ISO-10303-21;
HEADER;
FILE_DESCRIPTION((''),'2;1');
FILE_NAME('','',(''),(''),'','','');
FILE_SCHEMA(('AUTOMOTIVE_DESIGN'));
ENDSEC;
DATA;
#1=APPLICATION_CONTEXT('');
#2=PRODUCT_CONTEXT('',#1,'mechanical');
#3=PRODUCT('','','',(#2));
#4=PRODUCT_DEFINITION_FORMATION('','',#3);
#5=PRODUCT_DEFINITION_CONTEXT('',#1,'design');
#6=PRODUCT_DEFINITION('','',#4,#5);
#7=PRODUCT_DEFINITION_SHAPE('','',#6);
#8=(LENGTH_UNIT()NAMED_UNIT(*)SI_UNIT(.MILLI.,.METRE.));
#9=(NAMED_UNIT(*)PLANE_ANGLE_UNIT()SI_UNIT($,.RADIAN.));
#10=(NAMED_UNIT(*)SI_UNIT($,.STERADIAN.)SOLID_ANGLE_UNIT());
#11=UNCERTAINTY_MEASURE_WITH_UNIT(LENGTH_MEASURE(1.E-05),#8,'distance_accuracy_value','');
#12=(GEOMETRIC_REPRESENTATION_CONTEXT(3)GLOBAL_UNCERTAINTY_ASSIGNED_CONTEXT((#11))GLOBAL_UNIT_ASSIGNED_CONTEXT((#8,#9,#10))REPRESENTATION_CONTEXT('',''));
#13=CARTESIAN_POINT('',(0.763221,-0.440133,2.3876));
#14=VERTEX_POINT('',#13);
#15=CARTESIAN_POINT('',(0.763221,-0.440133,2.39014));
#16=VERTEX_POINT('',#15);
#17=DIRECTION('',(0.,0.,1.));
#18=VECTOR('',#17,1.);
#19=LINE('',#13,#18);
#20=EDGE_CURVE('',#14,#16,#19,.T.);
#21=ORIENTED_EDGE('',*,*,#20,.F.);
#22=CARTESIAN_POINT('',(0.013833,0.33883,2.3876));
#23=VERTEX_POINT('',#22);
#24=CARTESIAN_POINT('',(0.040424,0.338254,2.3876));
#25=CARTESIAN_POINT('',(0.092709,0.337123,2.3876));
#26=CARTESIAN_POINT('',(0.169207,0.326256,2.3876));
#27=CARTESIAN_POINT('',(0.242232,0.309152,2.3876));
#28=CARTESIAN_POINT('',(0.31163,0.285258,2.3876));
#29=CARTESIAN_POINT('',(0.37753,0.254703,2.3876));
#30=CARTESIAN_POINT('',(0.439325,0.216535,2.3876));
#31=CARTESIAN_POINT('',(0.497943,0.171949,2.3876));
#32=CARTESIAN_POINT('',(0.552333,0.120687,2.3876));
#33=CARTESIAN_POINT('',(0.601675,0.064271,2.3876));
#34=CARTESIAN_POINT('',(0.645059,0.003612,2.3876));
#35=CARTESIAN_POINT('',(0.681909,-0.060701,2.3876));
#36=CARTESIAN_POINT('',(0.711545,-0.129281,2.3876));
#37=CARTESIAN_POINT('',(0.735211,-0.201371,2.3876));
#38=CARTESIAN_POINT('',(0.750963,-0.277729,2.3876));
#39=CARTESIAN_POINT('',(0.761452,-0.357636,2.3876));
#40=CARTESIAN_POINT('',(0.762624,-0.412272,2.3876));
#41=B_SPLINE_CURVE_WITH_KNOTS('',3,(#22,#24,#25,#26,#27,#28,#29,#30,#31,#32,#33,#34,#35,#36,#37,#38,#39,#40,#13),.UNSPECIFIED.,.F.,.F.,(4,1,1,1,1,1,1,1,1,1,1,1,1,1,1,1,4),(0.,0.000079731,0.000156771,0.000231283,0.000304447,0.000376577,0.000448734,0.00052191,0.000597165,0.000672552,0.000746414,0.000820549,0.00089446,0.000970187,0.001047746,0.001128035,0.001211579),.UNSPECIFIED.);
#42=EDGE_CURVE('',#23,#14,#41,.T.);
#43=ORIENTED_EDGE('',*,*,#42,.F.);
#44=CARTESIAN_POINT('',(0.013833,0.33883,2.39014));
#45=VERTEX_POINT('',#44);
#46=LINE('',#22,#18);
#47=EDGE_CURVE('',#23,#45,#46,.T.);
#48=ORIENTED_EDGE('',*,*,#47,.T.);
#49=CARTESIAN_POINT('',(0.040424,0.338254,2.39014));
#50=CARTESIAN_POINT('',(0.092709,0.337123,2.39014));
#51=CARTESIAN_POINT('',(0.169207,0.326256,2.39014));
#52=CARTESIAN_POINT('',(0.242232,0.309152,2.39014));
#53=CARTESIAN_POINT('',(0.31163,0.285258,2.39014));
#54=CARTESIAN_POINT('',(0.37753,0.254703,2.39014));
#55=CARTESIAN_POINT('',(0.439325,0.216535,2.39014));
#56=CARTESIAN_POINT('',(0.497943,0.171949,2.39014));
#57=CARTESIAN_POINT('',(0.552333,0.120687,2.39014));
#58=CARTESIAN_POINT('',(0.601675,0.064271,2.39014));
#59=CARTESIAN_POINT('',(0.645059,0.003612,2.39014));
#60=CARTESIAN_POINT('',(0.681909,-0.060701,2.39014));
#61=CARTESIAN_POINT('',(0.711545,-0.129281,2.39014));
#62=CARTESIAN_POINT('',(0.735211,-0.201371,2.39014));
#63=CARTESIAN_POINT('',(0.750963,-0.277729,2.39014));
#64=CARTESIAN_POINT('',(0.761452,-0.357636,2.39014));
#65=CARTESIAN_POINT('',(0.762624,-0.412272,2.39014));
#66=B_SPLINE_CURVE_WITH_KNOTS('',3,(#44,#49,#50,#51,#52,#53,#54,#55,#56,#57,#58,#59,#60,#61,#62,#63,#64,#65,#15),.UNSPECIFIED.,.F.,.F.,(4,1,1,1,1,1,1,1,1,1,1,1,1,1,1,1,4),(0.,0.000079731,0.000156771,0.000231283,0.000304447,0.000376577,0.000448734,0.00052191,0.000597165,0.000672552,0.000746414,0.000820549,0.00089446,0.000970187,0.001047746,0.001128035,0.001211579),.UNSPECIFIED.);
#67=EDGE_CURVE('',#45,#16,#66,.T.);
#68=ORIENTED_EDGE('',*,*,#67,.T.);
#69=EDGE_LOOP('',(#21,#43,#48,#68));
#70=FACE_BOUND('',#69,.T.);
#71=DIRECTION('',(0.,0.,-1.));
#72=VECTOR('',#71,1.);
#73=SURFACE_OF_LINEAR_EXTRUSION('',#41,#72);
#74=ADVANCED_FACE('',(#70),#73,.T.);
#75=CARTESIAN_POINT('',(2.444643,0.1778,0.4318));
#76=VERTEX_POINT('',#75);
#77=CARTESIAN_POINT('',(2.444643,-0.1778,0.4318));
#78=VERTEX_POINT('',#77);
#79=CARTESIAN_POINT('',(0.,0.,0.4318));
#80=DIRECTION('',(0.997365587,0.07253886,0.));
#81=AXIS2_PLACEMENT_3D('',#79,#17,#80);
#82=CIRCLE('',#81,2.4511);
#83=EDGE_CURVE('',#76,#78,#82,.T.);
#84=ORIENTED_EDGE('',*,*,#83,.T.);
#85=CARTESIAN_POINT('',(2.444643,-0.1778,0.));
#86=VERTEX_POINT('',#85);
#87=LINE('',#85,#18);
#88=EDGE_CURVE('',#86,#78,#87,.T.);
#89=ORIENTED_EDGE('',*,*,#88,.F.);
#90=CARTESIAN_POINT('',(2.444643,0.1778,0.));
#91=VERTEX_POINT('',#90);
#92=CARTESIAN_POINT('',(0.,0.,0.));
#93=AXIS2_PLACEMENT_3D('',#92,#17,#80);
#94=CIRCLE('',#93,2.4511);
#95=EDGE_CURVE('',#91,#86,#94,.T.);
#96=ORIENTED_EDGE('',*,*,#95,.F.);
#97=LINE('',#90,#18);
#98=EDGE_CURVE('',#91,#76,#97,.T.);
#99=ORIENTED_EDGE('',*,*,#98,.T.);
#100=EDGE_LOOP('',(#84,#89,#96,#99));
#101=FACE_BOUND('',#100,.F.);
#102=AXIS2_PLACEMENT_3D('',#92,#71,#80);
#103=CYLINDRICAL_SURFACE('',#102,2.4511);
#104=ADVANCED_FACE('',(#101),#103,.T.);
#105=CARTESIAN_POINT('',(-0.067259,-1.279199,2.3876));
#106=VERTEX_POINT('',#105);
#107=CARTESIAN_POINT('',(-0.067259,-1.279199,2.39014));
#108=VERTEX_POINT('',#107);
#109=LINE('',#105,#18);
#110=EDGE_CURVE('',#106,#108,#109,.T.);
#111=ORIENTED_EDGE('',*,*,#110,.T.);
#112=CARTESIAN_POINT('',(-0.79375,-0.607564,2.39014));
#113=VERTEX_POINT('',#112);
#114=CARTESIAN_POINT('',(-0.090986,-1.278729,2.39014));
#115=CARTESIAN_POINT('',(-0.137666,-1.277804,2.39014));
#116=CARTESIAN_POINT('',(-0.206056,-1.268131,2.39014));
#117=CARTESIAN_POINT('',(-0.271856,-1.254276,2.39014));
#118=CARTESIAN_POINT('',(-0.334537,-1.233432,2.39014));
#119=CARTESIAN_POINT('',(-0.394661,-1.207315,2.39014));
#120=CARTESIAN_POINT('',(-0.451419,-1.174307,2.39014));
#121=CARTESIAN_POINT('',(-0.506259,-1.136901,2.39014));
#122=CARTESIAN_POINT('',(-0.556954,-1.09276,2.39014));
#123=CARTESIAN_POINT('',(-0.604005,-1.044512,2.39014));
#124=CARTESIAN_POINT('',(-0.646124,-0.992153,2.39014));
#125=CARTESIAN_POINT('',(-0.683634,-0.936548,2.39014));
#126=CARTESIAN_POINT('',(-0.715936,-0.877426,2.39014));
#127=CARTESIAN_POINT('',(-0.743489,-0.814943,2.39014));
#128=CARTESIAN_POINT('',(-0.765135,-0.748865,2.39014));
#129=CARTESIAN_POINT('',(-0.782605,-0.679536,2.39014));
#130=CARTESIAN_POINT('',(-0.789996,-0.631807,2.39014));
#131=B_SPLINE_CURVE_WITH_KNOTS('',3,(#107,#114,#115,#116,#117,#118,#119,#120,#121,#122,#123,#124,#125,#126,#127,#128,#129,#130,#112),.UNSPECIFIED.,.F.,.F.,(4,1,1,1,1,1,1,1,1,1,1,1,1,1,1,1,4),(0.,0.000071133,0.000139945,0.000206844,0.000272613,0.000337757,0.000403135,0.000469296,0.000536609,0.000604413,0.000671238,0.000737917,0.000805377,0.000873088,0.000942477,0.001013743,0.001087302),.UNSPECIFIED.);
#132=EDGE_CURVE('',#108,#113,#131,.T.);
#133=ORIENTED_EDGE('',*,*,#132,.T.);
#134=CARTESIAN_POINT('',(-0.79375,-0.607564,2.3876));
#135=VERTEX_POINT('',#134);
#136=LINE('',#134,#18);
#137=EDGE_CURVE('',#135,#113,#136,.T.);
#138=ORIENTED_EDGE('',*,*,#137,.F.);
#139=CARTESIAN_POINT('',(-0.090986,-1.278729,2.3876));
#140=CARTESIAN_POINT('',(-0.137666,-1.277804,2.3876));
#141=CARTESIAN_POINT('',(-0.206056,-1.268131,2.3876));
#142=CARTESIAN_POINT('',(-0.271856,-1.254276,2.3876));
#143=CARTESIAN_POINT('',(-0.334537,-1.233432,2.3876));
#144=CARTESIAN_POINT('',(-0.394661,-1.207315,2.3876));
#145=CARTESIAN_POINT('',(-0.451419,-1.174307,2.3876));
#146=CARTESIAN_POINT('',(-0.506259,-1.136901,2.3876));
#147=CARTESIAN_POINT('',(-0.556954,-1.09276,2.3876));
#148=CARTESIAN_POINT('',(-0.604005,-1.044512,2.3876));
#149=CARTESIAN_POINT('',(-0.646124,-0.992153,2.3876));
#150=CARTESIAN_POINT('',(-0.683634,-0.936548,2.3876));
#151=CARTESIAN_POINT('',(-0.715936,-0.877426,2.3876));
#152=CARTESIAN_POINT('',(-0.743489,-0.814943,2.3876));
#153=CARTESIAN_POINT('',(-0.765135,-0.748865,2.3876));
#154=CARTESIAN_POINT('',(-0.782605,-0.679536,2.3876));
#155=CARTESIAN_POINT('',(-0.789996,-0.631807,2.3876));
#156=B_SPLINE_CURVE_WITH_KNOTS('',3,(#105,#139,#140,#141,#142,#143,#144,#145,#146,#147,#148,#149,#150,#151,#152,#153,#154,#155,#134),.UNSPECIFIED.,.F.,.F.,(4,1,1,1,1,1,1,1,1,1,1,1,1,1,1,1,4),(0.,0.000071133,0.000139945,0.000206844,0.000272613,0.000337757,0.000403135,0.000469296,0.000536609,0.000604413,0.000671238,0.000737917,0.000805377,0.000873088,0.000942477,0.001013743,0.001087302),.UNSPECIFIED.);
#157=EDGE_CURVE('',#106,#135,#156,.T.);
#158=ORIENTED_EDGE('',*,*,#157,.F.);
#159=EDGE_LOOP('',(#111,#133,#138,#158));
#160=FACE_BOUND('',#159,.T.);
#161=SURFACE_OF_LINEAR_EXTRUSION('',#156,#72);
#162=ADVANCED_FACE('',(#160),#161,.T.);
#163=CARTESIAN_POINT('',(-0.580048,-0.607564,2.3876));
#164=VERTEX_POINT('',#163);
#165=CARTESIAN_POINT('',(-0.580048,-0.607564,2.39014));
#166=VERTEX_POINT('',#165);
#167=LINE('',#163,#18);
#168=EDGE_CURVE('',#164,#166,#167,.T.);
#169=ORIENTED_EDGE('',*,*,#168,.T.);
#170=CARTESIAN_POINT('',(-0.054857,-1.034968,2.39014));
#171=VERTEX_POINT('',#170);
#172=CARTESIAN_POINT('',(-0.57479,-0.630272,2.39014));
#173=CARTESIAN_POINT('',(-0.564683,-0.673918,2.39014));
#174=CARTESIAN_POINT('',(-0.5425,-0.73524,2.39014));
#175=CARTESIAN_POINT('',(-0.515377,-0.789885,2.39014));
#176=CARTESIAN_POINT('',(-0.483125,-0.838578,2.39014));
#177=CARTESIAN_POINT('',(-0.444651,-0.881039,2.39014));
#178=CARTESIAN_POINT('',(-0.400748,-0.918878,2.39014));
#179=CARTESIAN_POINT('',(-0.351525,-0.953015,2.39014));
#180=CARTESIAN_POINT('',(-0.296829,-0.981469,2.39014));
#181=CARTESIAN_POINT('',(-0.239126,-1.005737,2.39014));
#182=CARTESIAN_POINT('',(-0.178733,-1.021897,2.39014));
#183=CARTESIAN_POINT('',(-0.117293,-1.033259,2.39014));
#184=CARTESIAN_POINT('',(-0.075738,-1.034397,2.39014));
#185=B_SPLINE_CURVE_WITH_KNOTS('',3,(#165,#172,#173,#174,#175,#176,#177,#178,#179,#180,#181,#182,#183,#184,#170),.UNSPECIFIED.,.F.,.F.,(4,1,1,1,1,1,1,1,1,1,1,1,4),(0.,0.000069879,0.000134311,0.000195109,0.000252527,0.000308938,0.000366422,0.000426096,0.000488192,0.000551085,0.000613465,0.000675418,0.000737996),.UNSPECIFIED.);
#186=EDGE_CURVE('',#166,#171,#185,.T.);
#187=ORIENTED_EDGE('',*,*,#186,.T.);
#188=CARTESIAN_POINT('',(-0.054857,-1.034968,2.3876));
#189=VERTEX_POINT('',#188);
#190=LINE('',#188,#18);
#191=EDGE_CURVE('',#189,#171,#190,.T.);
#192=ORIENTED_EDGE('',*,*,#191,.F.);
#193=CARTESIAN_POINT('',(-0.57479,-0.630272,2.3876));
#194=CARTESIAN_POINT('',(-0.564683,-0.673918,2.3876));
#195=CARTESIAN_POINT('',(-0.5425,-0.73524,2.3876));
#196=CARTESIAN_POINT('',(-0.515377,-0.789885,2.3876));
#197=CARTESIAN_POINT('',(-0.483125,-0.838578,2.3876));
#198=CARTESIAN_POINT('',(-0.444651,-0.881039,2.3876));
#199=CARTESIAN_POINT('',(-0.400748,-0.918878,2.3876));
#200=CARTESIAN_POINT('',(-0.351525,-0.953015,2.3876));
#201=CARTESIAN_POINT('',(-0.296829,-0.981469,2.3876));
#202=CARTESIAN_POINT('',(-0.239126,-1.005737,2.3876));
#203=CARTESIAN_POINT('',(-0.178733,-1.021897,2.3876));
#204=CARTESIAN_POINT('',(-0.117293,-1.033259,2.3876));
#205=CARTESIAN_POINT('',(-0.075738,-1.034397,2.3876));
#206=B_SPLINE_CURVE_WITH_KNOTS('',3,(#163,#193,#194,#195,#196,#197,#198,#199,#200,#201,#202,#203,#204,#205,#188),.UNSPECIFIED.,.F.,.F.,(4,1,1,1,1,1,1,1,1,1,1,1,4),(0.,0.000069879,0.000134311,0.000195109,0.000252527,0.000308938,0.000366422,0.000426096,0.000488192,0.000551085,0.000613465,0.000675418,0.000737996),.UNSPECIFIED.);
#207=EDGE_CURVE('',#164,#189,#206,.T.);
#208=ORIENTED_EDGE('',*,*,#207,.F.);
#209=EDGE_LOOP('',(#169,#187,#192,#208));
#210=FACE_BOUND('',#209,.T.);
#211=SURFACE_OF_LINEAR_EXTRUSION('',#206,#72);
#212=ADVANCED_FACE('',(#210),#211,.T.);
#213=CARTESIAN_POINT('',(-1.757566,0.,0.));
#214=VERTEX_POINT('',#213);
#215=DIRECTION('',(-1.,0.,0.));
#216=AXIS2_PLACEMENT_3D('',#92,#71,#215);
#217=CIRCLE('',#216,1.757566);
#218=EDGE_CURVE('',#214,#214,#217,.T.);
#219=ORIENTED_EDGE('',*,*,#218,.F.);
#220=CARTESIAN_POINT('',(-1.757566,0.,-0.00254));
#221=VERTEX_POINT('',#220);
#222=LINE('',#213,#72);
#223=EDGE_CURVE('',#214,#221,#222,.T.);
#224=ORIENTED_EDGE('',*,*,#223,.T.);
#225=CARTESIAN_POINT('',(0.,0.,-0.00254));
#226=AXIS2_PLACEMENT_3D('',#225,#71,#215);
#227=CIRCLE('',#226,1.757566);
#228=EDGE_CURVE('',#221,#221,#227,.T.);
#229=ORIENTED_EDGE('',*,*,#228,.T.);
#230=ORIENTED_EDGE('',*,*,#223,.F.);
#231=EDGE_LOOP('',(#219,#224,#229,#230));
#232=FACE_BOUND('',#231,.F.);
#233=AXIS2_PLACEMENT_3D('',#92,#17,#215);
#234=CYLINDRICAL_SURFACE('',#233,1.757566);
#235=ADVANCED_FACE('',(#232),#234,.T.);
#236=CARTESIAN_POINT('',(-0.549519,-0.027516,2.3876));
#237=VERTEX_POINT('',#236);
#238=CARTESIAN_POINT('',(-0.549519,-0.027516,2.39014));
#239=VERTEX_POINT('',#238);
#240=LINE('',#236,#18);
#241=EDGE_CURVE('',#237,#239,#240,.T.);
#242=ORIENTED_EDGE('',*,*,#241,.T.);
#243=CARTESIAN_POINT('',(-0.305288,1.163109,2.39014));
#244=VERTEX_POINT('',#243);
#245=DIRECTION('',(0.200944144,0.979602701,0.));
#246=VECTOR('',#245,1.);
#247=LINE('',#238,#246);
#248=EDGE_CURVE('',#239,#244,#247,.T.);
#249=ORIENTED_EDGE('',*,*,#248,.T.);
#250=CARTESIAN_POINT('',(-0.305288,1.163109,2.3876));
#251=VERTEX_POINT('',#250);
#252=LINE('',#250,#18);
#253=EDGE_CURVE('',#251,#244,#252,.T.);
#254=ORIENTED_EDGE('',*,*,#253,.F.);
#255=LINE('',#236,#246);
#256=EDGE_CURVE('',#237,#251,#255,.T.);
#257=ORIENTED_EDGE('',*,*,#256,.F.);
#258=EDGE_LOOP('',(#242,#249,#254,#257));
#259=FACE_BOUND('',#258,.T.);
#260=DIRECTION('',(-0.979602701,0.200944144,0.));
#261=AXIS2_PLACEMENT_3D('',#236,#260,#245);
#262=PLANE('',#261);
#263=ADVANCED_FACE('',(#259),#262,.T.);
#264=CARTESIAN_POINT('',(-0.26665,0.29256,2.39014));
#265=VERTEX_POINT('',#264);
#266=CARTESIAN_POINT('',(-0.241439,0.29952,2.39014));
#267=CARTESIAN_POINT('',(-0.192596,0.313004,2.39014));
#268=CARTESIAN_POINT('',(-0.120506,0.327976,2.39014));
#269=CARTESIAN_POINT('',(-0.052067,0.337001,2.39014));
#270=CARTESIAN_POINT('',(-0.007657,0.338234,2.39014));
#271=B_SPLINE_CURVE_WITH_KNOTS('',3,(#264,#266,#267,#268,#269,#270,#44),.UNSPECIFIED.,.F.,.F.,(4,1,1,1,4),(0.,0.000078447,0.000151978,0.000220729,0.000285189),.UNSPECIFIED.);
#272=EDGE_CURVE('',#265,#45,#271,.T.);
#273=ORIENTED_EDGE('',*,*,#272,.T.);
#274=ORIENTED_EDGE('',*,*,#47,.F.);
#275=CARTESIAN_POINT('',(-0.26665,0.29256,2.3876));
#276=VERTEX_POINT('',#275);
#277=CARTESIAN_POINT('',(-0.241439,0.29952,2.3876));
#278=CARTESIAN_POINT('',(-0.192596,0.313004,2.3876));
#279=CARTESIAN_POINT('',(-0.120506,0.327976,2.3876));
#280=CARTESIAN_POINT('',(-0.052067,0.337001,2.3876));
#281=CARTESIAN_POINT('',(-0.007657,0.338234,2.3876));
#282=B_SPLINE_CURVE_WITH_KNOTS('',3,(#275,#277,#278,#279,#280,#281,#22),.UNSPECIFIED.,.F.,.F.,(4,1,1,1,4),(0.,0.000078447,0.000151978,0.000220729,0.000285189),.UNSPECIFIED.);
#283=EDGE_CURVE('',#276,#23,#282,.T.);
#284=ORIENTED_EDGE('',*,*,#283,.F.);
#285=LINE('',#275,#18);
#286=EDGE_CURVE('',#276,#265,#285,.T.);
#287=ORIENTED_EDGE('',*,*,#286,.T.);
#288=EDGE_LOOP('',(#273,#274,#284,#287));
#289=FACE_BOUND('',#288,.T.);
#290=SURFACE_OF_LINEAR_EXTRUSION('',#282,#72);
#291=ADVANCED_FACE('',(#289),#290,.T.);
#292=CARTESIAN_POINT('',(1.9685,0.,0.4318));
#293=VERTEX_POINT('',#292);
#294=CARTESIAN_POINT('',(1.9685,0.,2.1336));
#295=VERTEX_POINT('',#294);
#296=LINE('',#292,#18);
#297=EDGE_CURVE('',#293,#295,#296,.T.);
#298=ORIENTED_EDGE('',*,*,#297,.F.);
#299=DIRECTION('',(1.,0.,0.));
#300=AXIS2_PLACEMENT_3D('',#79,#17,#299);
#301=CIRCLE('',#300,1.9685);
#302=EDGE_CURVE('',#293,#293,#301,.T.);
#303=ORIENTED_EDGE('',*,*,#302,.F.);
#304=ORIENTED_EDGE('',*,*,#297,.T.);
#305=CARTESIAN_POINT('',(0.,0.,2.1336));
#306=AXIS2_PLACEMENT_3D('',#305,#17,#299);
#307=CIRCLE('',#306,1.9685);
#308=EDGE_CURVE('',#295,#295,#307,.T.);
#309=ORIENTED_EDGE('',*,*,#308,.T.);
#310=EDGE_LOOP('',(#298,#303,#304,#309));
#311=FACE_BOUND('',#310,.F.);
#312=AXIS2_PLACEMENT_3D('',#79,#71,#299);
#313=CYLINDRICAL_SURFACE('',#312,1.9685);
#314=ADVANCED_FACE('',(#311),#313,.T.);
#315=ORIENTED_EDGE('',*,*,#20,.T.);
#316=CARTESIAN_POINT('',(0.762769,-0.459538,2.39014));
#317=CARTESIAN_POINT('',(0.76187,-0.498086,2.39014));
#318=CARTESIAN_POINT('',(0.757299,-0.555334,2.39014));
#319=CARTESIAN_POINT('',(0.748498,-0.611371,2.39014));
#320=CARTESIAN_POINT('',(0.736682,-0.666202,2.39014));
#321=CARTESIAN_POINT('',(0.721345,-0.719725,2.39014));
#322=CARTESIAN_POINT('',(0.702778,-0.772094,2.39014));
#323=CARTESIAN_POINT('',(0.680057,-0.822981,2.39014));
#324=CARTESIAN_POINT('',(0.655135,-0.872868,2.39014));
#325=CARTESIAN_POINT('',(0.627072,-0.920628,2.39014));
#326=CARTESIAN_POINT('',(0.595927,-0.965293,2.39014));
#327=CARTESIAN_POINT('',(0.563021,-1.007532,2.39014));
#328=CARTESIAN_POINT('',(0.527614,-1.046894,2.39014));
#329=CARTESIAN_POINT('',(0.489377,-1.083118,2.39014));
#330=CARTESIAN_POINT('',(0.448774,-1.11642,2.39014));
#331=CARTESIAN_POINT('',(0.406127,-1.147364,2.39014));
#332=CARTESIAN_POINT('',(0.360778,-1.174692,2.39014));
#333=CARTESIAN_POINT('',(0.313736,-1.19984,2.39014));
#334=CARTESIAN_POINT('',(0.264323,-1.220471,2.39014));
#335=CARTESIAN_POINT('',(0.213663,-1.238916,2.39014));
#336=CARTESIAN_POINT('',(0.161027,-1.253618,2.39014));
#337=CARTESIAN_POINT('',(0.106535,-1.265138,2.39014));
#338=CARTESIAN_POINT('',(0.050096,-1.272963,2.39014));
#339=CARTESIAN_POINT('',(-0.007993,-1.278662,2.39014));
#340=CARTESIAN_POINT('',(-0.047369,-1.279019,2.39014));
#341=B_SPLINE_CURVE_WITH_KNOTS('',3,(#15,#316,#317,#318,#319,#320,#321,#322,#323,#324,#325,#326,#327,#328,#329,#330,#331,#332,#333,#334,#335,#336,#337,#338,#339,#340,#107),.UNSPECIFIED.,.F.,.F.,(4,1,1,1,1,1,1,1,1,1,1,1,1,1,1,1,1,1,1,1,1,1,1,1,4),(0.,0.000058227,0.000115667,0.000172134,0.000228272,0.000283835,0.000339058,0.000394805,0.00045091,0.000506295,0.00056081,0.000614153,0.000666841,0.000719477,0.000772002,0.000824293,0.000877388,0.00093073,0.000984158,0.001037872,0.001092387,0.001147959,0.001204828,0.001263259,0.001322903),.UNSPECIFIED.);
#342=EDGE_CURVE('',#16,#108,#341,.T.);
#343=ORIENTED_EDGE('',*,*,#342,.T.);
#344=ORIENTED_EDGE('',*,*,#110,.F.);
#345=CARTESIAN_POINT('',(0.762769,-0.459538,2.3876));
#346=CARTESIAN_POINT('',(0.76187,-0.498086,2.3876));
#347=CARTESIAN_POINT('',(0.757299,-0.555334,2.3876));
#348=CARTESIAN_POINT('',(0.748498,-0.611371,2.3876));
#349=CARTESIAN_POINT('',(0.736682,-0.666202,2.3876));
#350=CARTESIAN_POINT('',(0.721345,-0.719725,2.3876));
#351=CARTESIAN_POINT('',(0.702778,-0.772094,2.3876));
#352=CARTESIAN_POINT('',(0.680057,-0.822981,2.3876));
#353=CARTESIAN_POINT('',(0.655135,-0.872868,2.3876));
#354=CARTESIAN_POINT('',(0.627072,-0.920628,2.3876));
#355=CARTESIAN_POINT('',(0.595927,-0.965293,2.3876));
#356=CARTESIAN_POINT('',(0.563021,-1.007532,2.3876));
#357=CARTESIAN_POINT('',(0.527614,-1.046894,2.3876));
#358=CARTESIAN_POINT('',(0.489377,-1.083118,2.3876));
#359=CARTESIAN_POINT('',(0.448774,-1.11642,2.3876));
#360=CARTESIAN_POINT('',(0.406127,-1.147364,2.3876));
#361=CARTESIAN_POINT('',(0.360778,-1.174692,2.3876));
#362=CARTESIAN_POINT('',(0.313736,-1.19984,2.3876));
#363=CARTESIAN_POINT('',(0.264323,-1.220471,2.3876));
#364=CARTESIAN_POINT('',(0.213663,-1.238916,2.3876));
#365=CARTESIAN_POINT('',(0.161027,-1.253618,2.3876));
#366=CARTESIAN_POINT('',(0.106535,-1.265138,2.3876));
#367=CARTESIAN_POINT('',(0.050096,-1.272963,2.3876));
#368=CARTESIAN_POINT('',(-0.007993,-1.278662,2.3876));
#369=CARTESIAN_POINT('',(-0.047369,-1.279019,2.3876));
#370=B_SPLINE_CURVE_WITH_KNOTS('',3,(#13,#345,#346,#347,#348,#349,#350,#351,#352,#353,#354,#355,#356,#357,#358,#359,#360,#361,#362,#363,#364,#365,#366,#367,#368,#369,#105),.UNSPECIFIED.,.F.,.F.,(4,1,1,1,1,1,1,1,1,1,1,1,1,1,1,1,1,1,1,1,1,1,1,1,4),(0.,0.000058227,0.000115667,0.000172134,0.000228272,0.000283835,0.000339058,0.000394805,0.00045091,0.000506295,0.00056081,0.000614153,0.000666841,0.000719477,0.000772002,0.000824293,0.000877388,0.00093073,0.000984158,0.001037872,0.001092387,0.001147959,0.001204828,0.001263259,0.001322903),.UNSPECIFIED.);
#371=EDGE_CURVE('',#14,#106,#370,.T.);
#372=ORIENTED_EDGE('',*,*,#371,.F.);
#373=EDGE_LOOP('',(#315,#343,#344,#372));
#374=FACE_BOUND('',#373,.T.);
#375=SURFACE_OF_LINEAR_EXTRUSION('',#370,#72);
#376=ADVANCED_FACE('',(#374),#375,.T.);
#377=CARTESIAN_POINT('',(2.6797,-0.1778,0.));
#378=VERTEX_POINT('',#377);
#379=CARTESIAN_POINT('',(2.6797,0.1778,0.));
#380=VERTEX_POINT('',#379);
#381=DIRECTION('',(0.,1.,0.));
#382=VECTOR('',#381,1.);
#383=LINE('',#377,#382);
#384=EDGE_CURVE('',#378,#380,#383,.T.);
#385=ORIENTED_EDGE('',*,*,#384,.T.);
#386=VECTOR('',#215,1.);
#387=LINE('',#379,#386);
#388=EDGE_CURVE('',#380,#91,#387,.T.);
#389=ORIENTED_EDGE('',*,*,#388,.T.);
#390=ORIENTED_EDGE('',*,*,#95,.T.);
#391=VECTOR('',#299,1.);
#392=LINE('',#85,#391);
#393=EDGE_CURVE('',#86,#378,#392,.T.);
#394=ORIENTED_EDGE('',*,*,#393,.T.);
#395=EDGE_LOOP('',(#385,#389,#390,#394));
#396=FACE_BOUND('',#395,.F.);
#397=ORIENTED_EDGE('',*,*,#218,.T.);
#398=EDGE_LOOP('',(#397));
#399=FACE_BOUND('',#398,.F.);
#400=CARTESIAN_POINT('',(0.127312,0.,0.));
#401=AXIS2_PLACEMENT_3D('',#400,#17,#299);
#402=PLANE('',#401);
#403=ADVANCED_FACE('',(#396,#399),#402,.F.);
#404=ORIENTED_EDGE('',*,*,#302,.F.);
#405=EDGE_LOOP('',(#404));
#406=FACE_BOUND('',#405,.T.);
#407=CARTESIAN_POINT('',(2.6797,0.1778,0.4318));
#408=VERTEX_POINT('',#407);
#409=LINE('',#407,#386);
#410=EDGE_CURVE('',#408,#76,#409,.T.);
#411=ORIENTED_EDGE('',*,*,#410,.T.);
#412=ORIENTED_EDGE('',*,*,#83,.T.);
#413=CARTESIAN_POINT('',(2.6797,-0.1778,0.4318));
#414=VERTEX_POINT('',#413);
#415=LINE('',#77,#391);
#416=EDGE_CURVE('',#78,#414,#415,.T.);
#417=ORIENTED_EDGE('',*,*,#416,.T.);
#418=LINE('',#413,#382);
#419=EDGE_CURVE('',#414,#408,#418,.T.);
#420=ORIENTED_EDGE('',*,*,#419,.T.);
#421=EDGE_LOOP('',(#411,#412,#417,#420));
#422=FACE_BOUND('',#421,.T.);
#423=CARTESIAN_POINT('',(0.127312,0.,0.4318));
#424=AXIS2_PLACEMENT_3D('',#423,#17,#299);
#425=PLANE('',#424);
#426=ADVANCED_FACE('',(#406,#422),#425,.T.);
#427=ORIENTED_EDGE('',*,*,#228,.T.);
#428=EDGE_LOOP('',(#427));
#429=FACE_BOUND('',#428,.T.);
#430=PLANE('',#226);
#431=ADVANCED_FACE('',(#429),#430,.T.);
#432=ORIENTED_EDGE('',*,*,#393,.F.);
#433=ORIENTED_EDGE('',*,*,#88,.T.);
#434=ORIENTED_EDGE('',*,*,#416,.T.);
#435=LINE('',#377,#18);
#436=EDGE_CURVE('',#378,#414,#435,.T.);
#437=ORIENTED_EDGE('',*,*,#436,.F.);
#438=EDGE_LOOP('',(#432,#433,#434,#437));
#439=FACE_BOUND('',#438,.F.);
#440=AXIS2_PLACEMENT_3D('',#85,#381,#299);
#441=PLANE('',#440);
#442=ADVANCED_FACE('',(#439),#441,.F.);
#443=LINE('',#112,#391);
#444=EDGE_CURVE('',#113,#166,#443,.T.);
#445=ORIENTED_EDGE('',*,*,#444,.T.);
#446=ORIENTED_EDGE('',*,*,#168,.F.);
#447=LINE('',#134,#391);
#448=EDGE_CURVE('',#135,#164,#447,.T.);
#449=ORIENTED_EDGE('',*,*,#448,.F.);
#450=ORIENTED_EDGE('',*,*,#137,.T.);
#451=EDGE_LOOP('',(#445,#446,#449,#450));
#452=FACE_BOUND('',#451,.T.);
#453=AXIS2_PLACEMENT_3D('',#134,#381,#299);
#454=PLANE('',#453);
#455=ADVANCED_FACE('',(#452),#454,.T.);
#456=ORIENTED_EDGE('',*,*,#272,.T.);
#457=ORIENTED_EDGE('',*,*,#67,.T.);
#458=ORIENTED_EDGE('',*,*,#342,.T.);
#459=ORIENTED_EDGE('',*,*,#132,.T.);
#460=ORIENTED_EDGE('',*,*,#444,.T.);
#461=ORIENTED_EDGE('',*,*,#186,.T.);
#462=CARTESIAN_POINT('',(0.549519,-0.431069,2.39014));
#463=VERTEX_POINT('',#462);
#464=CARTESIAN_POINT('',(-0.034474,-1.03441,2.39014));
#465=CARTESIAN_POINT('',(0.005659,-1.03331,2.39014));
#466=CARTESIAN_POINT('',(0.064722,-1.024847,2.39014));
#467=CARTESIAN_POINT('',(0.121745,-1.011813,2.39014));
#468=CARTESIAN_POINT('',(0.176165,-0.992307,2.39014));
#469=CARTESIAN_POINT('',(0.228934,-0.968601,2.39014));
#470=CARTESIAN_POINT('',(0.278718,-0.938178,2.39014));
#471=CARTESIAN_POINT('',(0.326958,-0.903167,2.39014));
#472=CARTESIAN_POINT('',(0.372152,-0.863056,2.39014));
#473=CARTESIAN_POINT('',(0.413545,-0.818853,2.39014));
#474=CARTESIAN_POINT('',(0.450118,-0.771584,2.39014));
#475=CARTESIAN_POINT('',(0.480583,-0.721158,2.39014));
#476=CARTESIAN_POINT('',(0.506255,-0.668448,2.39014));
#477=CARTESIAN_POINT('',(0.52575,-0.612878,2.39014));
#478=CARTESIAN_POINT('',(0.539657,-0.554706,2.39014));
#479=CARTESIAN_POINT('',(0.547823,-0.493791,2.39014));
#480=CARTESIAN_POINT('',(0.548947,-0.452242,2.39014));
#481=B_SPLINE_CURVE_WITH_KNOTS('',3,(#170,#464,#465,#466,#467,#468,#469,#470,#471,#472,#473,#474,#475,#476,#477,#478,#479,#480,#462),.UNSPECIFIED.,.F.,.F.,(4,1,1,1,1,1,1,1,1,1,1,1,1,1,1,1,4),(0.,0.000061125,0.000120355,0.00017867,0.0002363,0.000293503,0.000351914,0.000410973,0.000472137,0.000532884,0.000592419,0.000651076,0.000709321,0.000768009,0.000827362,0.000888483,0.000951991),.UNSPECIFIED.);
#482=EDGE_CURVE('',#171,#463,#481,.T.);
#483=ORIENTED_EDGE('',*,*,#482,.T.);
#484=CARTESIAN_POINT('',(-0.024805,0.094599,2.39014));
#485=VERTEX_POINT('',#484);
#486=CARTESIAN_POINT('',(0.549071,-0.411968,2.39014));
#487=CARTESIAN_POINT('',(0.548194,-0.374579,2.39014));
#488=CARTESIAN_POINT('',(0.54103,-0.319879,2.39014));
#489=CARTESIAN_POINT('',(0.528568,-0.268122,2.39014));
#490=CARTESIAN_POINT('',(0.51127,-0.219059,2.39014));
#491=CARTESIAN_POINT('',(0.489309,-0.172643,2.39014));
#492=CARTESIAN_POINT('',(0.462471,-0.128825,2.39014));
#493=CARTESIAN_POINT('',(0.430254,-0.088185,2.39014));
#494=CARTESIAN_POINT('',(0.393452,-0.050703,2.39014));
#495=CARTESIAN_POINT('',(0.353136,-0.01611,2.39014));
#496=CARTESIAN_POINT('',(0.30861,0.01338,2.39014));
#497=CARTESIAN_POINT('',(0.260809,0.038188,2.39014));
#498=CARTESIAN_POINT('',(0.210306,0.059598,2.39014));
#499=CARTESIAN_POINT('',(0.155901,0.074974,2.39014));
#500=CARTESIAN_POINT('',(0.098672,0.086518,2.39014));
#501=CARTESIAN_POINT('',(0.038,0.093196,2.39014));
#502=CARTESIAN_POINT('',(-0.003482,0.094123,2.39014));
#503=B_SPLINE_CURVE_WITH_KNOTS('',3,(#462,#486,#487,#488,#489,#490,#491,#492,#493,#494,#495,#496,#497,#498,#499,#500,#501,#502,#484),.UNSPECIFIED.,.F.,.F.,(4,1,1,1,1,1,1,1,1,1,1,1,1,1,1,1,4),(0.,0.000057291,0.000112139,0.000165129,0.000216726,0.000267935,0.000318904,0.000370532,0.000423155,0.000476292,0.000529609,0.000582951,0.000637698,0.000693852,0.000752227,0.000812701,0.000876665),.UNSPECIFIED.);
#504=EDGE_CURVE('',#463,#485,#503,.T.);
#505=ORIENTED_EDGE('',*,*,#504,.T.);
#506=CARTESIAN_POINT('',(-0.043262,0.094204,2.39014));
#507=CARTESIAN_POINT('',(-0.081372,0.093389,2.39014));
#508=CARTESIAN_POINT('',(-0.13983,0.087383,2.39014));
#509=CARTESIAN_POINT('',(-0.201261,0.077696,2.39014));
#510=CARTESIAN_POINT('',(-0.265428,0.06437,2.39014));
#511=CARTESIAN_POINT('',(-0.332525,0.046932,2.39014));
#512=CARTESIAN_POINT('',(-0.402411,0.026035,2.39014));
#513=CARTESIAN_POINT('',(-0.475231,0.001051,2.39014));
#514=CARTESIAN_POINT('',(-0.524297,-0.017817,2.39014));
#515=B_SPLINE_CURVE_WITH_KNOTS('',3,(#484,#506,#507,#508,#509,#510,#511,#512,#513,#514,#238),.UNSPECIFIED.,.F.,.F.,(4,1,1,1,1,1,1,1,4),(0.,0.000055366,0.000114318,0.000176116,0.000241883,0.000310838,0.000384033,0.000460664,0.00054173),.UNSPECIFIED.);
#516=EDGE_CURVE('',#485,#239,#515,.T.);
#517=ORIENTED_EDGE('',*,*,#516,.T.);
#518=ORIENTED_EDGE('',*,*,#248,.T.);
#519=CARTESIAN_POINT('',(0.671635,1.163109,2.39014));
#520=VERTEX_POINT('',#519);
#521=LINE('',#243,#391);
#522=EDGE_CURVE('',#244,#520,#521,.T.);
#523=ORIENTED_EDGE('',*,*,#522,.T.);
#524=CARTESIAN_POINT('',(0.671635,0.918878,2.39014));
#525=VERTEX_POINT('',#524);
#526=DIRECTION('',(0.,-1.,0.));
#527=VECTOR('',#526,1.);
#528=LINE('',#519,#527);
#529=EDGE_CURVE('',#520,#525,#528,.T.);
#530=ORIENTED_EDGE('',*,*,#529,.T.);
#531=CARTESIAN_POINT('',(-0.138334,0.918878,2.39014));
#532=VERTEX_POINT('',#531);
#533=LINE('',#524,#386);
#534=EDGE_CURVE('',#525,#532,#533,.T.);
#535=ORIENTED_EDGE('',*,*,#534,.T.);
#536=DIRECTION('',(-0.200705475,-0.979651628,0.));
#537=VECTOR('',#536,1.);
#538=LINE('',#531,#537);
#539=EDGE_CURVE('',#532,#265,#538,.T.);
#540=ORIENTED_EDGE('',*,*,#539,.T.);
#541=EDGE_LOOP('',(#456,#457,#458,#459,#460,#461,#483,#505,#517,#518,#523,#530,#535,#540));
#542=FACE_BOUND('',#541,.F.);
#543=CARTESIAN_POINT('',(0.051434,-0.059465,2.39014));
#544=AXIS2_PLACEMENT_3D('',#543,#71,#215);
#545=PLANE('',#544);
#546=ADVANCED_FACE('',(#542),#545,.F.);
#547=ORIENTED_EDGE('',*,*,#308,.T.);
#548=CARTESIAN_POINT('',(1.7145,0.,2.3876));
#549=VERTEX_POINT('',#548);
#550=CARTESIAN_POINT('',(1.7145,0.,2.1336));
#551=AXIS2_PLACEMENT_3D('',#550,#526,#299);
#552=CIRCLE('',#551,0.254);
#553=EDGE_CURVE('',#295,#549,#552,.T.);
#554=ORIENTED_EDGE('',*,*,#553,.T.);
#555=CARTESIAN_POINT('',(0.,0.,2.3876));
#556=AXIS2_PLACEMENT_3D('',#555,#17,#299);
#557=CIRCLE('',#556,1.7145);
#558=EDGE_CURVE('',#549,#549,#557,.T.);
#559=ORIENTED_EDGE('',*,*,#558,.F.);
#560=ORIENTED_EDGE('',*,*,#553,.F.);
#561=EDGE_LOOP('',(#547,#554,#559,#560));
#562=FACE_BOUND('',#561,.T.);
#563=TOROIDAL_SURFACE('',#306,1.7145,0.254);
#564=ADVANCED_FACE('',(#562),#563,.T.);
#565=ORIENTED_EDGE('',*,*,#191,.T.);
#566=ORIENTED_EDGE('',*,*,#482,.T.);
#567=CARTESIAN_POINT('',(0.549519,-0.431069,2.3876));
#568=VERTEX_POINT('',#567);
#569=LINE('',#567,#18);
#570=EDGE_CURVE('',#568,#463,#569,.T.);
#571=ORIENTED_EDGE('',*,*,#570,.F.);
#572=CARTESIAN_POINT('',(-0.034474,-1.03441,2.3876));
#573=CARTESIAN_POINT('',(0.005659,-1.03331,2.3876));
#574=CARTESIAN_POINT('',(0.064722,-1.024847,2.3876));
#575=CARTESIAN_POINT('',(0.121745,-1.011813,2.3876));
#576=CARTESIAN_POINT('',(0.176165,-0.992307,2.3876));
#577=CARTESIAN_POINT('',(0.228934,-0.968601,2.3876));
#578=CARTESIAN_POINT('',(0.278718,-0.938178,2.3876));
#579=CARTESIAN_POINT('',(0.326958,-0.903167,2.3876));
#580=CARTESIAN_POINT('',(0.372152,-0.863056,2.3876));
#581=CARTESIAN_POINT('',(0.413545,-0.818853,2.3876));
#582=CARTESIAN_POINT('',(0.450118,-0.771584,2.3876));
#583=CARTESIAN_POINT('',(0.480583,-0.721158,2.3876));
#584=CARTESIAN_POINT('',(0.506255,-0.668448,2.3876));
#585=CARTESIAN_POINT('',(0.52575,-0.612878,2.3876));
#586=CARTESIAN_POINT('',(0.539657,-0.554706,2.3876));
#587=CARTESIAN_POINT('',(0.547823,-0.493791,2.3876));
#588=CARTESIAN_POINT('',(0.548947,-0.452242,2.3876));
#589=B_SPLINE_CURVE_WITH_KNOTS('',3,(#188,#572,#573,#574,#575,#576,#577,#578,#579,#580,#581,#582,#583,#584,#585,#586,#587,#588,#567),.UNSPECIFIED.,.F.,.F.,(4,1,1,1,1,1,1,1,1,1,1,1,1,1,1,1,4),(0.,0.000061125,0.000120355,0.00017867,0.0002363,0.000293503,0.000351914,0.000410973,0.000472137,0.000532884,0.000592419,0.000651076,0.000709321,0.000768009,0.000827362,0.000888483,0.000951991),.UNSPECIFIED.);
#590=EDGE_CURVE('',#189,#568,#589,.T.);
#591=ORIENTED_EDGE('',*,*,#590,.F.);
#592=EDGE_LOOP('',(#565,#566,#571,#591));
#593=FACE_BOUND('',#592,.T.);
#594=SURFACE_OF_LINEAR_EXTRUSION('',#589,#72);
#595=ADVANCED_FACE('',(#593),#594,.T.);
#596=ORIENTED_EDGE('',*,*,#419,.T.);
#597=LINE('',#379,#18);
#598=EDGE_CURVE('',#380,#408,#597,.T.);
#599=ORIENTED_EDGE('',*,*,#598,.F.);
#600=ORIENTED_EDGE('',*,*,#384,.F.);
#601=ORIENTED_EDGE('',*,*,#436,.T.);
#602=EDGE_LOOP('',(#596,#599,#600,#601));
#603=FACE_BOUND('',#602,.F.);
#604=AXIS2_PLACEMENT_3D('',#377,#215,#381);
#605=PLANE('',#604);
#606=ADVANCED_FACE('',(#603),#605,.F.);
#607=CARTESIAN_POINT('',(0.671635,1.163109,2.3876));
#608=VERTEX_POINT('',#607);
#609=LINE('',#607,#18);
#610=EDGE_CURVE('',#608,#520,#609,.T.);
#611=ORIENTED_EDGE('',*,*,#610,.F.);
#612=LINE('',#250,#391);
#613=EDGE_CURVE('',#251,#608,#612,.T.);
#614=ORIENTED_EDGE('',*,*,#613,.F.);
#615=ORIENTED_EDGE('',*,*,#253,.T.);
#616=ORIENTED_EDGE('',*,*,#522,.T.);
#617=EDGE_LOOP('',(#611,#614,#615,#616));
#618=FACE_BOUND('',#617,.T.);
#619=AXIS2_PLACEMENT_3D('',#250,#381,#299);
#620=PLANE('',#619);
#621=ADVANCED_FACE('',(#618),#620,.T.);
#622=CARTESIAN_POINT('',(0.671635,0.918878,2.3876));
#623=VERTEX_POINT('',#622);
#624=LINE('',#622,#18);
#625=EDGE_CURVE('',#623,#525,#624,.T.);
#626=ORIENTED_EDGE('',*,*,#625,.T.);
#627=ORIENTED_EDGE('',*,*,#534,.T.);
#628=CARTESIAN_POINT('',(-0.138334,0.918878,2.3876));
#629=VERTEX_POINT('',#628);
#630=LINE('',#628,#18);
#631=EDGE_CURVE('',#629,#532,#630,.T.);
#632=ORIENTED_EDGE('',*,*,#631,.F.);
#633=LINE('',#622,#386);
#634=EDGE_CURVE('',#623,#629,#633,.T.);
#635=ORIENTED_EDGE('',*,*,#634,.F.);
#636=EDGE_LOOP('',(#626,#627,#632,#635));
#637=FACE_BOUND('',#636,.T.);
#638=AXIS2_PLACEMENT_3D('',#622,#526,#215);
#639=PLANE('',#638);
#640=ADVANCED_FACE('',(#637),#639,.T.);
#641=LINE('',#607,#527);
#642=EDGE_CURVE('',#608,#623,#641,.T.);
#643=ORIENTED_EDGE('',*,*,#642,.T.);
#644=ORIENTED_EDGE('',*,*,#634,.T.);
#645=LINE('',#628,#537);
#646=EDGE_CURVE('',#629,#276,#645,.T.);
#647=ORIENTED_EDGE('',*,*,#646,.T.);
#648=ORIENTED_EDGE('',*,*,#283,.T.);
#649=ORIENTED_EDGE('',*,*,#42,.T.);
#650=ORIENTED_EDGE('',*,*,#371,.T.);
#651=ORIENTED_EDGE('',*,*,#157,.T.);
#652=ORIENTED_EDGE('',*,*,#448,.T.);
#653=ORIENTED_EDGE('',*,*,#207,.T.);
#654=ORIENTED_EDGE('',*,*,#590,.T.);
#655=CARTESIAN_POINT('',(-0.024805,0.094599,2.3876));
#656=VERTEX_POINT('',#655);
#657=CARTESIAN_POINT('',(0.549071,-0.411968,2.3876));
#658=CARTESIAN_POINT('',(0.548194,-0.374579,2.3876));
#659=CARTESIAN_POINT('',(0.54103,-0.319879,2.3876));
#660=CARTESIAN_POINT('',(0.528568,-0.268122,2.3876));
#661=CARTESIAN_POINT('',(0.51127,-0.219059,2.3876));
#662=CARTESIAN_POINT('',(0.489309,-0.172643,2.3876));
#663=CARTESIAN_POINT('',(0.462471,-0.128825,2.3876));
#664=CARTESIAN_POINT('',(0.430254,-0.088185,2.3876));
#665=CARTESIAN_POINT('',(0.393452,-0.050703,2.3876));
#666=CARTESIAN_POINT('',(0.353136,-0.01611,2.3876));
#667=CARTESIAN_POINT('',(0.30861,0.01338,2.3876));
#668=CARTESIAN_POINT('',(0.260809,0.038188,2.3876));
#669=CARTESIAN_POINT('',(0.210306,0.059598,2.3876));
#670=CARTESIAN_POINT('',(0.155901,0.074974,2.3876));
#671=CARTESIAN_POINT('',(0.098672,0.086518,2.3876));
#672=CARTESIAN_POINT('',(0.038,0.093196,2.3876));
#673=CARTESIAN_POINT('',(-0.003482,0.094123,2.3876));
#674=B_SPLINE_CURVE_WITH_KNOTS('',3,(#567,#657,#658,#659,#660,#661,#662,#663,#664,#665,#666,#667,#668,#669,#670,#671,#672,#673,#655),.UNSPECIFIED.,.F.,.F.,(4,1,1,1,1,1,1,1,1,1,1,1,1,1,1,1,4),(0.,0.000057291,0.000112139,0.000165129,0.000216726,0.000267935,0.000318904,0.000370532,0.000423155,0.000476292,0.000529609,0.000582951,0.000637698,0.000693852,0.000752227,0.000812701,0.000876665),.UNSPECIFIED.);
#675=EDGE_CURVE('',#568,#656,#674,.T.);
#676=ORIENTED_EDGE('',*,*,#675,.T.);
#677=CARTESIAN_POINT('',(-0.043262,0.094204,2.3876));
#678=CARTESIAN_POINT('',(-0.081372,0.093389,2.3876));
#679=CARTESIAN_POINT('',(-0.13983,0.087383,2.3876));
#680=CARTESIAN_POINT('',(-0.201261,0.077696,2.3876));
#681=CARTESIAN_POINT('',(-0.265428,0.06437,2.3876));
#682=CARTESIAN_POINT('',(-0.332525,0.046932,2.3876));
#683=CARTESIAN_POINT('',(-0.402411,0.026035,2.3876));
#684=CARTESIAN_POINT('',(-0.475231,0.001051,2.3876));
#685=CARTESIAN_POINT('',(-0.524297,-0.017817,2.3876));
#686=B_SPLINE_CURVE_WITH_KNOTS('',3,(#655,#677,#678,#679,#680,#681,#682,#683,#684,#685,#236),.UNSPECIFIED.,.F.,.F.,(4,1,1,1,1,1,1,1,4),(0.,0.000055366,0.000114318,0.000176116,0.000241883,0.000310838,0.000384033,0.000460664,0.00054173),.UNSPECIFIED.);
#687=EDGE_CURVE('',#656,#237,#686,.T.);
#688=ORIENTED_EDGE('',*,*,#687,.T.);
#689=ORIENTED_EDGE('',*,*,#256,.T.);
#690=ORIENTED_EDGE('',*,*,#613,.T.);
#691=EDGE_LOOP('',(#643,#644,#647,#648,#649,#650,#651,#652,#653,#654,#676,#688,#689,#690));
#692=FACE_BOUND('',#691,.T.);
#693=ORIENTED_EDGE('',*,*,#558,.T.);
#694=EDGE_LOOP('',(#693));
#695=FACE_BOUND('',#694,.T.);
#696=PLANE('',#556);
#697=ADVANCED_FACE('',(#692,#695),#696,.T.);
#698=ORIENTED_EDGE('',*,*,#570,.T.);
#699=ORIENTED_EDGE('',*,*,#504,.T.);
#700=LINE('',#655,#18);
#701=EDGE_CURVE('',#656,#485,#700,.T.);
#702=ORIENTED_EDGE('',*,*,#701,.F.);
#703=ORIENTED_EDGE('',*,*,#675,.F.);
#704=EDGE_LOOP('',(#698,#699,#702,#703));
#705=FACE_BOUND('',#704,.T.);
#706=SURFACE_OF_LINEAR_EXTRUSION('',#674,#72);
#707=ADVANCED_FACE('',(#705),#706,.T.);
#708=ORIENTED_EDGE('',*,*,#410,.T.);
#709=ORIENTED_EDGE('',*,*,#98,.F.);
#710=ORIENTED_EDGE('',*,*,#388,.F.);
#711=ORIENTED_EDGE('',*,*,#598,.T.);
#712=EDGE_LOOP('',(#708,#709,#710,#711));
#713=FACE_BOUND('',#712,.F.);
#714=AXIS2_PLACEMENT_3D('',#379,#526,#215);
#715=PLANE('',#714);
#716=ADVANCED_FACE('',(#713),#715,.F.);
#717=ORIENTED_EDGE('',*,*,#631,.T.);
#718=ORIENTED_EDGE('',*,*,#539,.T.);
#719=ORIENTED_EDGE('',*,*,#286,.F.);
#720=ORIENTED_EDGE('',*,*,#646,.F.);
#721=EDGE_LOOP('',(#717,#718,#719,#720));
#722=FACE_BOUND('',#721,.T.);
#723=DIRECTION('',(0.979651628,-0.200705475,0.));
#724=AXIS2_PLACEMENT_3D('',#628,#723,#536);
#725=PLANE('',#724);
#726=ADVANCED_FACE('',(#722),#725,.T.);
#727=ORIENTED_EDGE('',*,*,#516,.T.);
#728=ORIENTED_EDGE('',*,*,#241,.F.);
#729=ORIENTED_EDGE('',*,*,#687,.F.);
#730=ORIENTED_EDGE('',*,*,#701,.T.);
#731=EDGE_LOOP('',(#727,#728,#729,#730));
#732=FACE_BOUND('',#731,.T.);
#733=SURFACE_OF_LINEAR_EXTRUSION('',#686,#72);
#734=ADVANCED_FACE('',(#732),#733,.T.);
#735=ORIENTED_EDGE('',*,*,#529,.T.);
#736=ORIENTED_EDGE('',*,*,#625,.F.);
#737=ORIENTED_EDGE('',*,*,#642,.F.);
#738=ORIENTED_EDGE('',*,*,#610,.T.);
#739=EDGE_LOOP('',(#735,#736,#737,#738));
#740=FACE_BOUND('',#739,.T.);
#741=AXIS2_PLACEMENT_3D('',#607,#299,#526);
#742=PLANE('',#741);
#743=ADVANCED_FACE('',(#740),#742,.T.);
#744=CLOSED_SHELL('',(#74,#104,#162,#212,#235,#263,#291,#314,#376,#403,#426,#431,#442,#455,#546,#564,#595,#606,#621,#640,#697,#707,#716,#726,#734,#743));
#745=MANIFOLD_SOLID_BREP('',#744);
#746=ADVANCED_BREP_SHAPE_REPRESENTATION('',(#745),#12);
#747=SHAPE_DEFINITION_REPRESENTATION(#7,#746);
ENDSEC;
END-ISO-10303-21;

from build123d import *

# Parameters (mm, degrees)
BOSS_EXTRUDE1_DEPTH = 0.4318
SKETCH2_R           = 1.9685
BOSS_EXTRUDE2_DEPTH = 1.9558
SKETCH3_R           = 1.757566481
BOSS_EXTRUDE3_DEPTH = 0.00254
FILLET1_R           = 0.254
BOSS_EXTRUDE6_DEPTH = 0.00254


with BuildPart() as part:
    # Sketch1 → Boss-Extrude1 (new body)
    with BuildSketch(Plane.XY):
        with BuildLine():
            Line((2.6797, 0.1778), (2.4511, 0.1778))
            Line((2.4511, 0.1778), (2.44464279, 0.1778))
            ThreePointArc((2.44464279, 0.1778), (-2.4511, 0), (2.44464279, -0.1778))
            Line((2.44464279, -0.1778), (2.4511, -0.1778))
            Line((2.4511, -0.1778), (2.6797, -0.1778))
            Line((2.6797, -0.1778), (2.6797, 0.1778))
        make_face()
    extrude(amount=BOSS_EXTRUDE1_DEPTH)

    # Sketch2 → Boss-Extrude2 (add)
    with BuildSketch(Plane.XY.offset(0.4318)):
        Circle(SKETCH2_R)
    extrude(amount=BOSS_EXTRUDE2_DEPTH)

    # Sketch3 → Boss-Extrude3 (add)
    with BuildSketch(Plane(origin=(0, 0, 0), x_dir=(-1, 0, 0), z_dir=(0, 0, -1))):
        Circle(SKETCH3_R)
    extrude(amount=BOSS_EXTRUDE3_DEPTH)

    # Fillet1
    fillet1_edges = [part.edges().sort_by_distance(p)[0] for p in [
        (-1.9685, 0, 2.3876),
    ]]
    fillet(fillet1_edges, radius=FILLET1_R)

    # Sketch4 → Boss-Extrude6 (add)
    with BuildSketch(Plane.XY.offset(2.3876)):
        with BuildLine():
            Line((0.671634615, 1.163108793), (0.671634615, 0.918878024))
            Line((0.671634615, 0.918878024), (-0.138333834, 0.918878024))
            Line((-0.138333834, 0.918878024), (-0.266650391, 0.292559664))
            add(Edge.make_bspline(
                [(-0.266650391, 0.292559664), (-0.241439162, 0.299519903), (-0.192596393, 0.313004264), (-0.120505845, 0.327976047), (-0.052067221, 0.337001287), (-0.007656656, 0.338233625), (0.013833383, 0.338829947)],
                knots=[0, 0, 0, 0, 7.8447e-05, 0.000151978, 0.000220729, 0.000285189, 0.000285189, 0.000285189, 0.000285189], degree=3))
            add(Edge.make_bspline(
                [(0.013833383, 0.338829947), (0.040424285, 0.338254409), (0.092708641, 0.337122756), (0.169207282, 0.326256194), (0.242231982, 0.309152074), (0.311630023, 0.285257576), (0.377529791, 0.254702918), (0.439324971, 0.216534923), (0.497943123, 0.171948853), (0.552332637, 0.120687336), (0.601675068, 0.064271022), (0.645058715, 0.003611828), (0.68190862, -0.060700743), (0.711545491, -0.129281157), (0.735211261, -0.201371224), (0.750962886, -0.277729463), (0.761451754, -0.35763613), (0.762623592, -0.412271918), (0.763221154, -0.440132643)],
                knots=[0, 0, 0, 0, 7.9731e-05, 0.000156771, 0.000231283, 0.000304447, 0.000376577, 0.000448734, 0.00052191, 0.000597165, 0.000672552, 0.000746414, 0.000820549, 0.00089446, 0.000970187, 0.001047746, 0.001128035, 0.001211579, 0.001211579, 0.001211579, 0.001211579], degree=3))
            add(Edge.make_bspline(
                [(0.763221154, -0.440132643), (0.762768665, -0.45953794), (0.761869803, -0.498086286), (0.757298764, -0.555334394), (0.748497857, -0.611370536), (0.736681602, -0.666202146), (0.721344707, -0.719725415), (0.702778404, -0.772093544), (0.680057178, -0.822980589), (0.65513476, -0.872868045), (0.627072424, -0.920628101), (0.59592669, -0.965292858), (0.563020882, -1.007532342), (0.527614154, -1.046893543), (0.489377406, -1.08311781), (0.448773714, -1.116420123), (0.406127078, -1.147363671), (0.360777708, -1.174692389), (0.313736126, -1.199840401), (0.264322999, -1.220471236), (0.21366313, -1.238916077), (0.161027384, -1.253618274), (0.106534987, -1.265138458), (0.050096113, -1.272962974), (-0.007993236, -1.278661943), (-0.047368914, -1.279018693), (-0.067258864, -1.279198899)],
                knots=[0, 0, 0, 0, 5.8227e-05, 0.000115667, 0.000172134, 0.000228272, 0.000283835, 0.000339058, 0.000394805, 0.00045091, 0.000506295, 0.00056081, 0.000614153, 0.000666841, 0.000719477, 0.000772002, 0.000824293, 0.000877388, 0.00093073, 0.000984158, 0.001037872, 0.001092387, 0.001147959, 0.001204828, 0.001263259, 0.001322903, 0.001322903, 0.001322903, 0.001322903], degree=3))
            add(Edge.make_bspline(
                [(-0.067258864, -1.279198899), (-0.090985762, -1.278728883), (-0.137665631, -1.277804181), (-0.206055517, -1.268130533), (-0.271855989, -1.254275797), (-0.334537362, -1.233432192), (-0.394661382, -1.207315121), (-0.451418624, -1.174306798), (-0.50625934, -1.136901372), (-0.556954136, -1.09275956), (-0.604004992, -1.044511569), (-0.646123527, -0.992152888), (-0.68363405, -0.936547679), (-0.715935875, -0.877425899), (-0.743488993, -0.814942898), (-0.765134547, -0.748864571), (-0.782604999, -0.679536176), (-0.789996005, -0.631806734), (-0.79375, -0.607564284)],
                knots=[0, 0, 0, 0, 7.1133e-05, 0.000139945, 0.000206844, 0.000272613, 0.000337757, 0.000403135, 0.000469296, 0.000536609, 0.000604413, 0.000671238, 0.000737917, 0.000805377, 0.000873088, 0.000942477, 0.001013743, 0.001087302, 0.001087302, 0.001087302, 0.001087302], degree=3))
            Line((-0.79375, -0.607564284), (-0.580048077, -0.607564284))
            add(Edge.make_bspline(
                [(-0.580048077, -0.607564284), (-0.574789898, -0.630272192), (-0.564683385, -0.673918051), (-0.542499831, -0.735239553), (-0.515376798, -0.789885311), (-0.483124911, -0.838578188), (-0.444650694, -0.881038595), (-0.400747636, -0.91887806), (-0.351525346, -0.953015068), (-0.296829238, -0.981469486), (-0.239126053, -1.005736978), (-0.178732648, -1.021896613), (-0.117293441, -1.033259185), (-0.075738335, -1.034396579), (-0.05485652, -1.03496813)],
                knots=[0, 0, 0, 0, 6.9879e-05, 0.000134311, 0.000195109, 0.000252527, 0.000308938, 0.000366422, 0.000426096, 0.000488192, 0.000551085, 0.000613465, 0.000675418, 0.000737996, 0.000737996, 0.000737996, 0.000737996], degree=3))
            add(Edge.make_bspline(
                [(-0.05485652, -1.03496813), (-0.034474079, -1.034409708), (0.005659116, -1.03331017), (0.064721863, -1.024847199), (0.12174455, -1.011813209), (0.17616452, -0.992307468), (0.228934067, -0.968600615), (0.278718365, -0.938178394), (0.326957644, -0.903167203), (0.372152499, -0.863055639), (0.413545053, -0.818853043), (0.450118413, -0.771583602), (0.480582706, -0.721157676), (0.506255377, -0.668448263), (0.525749853, -0.612877673), (0.539657021, -0.554706338), (0.547823388, -0.493790575), (0.54894678, -0.452241634), (0.549519231, -0.431069392)],
                knots=[0, 0, 0, 0, 6.1125e-05, 0.000120355, 0.00017867, 0.0002363, 0.000293503, 0.000351914, 0.000410973, 0.000472137, 0.000532884, 0.000592419, 0.000651076, 0.000709321, 0.000768009, 0.000827362, 0.000888483, 0.000951991, 0.000951991, 0.000951991, 0.000951991], degree=3))
            add(Edge.make_bspline(
                [(0.549519231, -0.431069392), (0.54907123, -0.411967854), (0.548194331, -0.374579311), (0.541029782, -0.319879136), (0.528567699, -0.268122299), (0.511270381, -0.219058864), (0.489308787, -0.172642558), (0.462471207, -0.128825476), (0.430253984, -0.088185136), (0.393452182, -0.050702524), (0.35313555, -0.01610985), (0.308610432, 0.013379609), (0.260808589, 0.038188096), (0.210305951, 0.059597573), (0.155901261, 0.074974152), (0.09867191, 0.086518374), (0.037999899, 0.093196326), (-0.003481944, 0.094122896), (-0.024804687, 0.094599178)],
                knots=[0, 0, 0, 0, 5.7291e-05, 0.000112139, 0.000165129, 0.000216726, 0.000267935, 0.000318904, 0.000370532, 0.000423155, 0.000476292, 0.000529609, 0.000582951, 0.000637698, 0.000693852, 0.000752227, 0.000812701, 0.000876665, 0.000876665, 0.000876665, 0.000876665], degree=3))
            add(Edge.make_bspline(
                [(-0.024804687, 0.094599178), (-0.043262048, 0.094204168), (-0.081371815, 0.093388574), (-0.139830024, 0.087383404), (-0.201260642, 0.077695598), (-0.265428183, 0.064369955), (-0.33252535, 0.046931669), (-0.402410548, 0.026034839), (-0.475230715, 0.001050765), (-0.524296524, -0.017817045), (-0.549519231, -0.027516207)],
                knots=[0, 0, 0, 0, 5.5366e-05, 0.000114318, 0.000176116, 0.000241883, 0.000310838, 0.000384033, 0.000460664, 0.00054173, 0.00054173, 0.00054173, 0.00054173], degree=3))
            Line((-0.549519231, -0.027516207), (-0.305288462, 1.163108793))
            Line((-0.305288462, 1.163108793), (0.671634615, 1.163108793))
        make_face()
    extrude(amount=BOSS_EXTRUDE6_DEPTH)


solid = part.part
